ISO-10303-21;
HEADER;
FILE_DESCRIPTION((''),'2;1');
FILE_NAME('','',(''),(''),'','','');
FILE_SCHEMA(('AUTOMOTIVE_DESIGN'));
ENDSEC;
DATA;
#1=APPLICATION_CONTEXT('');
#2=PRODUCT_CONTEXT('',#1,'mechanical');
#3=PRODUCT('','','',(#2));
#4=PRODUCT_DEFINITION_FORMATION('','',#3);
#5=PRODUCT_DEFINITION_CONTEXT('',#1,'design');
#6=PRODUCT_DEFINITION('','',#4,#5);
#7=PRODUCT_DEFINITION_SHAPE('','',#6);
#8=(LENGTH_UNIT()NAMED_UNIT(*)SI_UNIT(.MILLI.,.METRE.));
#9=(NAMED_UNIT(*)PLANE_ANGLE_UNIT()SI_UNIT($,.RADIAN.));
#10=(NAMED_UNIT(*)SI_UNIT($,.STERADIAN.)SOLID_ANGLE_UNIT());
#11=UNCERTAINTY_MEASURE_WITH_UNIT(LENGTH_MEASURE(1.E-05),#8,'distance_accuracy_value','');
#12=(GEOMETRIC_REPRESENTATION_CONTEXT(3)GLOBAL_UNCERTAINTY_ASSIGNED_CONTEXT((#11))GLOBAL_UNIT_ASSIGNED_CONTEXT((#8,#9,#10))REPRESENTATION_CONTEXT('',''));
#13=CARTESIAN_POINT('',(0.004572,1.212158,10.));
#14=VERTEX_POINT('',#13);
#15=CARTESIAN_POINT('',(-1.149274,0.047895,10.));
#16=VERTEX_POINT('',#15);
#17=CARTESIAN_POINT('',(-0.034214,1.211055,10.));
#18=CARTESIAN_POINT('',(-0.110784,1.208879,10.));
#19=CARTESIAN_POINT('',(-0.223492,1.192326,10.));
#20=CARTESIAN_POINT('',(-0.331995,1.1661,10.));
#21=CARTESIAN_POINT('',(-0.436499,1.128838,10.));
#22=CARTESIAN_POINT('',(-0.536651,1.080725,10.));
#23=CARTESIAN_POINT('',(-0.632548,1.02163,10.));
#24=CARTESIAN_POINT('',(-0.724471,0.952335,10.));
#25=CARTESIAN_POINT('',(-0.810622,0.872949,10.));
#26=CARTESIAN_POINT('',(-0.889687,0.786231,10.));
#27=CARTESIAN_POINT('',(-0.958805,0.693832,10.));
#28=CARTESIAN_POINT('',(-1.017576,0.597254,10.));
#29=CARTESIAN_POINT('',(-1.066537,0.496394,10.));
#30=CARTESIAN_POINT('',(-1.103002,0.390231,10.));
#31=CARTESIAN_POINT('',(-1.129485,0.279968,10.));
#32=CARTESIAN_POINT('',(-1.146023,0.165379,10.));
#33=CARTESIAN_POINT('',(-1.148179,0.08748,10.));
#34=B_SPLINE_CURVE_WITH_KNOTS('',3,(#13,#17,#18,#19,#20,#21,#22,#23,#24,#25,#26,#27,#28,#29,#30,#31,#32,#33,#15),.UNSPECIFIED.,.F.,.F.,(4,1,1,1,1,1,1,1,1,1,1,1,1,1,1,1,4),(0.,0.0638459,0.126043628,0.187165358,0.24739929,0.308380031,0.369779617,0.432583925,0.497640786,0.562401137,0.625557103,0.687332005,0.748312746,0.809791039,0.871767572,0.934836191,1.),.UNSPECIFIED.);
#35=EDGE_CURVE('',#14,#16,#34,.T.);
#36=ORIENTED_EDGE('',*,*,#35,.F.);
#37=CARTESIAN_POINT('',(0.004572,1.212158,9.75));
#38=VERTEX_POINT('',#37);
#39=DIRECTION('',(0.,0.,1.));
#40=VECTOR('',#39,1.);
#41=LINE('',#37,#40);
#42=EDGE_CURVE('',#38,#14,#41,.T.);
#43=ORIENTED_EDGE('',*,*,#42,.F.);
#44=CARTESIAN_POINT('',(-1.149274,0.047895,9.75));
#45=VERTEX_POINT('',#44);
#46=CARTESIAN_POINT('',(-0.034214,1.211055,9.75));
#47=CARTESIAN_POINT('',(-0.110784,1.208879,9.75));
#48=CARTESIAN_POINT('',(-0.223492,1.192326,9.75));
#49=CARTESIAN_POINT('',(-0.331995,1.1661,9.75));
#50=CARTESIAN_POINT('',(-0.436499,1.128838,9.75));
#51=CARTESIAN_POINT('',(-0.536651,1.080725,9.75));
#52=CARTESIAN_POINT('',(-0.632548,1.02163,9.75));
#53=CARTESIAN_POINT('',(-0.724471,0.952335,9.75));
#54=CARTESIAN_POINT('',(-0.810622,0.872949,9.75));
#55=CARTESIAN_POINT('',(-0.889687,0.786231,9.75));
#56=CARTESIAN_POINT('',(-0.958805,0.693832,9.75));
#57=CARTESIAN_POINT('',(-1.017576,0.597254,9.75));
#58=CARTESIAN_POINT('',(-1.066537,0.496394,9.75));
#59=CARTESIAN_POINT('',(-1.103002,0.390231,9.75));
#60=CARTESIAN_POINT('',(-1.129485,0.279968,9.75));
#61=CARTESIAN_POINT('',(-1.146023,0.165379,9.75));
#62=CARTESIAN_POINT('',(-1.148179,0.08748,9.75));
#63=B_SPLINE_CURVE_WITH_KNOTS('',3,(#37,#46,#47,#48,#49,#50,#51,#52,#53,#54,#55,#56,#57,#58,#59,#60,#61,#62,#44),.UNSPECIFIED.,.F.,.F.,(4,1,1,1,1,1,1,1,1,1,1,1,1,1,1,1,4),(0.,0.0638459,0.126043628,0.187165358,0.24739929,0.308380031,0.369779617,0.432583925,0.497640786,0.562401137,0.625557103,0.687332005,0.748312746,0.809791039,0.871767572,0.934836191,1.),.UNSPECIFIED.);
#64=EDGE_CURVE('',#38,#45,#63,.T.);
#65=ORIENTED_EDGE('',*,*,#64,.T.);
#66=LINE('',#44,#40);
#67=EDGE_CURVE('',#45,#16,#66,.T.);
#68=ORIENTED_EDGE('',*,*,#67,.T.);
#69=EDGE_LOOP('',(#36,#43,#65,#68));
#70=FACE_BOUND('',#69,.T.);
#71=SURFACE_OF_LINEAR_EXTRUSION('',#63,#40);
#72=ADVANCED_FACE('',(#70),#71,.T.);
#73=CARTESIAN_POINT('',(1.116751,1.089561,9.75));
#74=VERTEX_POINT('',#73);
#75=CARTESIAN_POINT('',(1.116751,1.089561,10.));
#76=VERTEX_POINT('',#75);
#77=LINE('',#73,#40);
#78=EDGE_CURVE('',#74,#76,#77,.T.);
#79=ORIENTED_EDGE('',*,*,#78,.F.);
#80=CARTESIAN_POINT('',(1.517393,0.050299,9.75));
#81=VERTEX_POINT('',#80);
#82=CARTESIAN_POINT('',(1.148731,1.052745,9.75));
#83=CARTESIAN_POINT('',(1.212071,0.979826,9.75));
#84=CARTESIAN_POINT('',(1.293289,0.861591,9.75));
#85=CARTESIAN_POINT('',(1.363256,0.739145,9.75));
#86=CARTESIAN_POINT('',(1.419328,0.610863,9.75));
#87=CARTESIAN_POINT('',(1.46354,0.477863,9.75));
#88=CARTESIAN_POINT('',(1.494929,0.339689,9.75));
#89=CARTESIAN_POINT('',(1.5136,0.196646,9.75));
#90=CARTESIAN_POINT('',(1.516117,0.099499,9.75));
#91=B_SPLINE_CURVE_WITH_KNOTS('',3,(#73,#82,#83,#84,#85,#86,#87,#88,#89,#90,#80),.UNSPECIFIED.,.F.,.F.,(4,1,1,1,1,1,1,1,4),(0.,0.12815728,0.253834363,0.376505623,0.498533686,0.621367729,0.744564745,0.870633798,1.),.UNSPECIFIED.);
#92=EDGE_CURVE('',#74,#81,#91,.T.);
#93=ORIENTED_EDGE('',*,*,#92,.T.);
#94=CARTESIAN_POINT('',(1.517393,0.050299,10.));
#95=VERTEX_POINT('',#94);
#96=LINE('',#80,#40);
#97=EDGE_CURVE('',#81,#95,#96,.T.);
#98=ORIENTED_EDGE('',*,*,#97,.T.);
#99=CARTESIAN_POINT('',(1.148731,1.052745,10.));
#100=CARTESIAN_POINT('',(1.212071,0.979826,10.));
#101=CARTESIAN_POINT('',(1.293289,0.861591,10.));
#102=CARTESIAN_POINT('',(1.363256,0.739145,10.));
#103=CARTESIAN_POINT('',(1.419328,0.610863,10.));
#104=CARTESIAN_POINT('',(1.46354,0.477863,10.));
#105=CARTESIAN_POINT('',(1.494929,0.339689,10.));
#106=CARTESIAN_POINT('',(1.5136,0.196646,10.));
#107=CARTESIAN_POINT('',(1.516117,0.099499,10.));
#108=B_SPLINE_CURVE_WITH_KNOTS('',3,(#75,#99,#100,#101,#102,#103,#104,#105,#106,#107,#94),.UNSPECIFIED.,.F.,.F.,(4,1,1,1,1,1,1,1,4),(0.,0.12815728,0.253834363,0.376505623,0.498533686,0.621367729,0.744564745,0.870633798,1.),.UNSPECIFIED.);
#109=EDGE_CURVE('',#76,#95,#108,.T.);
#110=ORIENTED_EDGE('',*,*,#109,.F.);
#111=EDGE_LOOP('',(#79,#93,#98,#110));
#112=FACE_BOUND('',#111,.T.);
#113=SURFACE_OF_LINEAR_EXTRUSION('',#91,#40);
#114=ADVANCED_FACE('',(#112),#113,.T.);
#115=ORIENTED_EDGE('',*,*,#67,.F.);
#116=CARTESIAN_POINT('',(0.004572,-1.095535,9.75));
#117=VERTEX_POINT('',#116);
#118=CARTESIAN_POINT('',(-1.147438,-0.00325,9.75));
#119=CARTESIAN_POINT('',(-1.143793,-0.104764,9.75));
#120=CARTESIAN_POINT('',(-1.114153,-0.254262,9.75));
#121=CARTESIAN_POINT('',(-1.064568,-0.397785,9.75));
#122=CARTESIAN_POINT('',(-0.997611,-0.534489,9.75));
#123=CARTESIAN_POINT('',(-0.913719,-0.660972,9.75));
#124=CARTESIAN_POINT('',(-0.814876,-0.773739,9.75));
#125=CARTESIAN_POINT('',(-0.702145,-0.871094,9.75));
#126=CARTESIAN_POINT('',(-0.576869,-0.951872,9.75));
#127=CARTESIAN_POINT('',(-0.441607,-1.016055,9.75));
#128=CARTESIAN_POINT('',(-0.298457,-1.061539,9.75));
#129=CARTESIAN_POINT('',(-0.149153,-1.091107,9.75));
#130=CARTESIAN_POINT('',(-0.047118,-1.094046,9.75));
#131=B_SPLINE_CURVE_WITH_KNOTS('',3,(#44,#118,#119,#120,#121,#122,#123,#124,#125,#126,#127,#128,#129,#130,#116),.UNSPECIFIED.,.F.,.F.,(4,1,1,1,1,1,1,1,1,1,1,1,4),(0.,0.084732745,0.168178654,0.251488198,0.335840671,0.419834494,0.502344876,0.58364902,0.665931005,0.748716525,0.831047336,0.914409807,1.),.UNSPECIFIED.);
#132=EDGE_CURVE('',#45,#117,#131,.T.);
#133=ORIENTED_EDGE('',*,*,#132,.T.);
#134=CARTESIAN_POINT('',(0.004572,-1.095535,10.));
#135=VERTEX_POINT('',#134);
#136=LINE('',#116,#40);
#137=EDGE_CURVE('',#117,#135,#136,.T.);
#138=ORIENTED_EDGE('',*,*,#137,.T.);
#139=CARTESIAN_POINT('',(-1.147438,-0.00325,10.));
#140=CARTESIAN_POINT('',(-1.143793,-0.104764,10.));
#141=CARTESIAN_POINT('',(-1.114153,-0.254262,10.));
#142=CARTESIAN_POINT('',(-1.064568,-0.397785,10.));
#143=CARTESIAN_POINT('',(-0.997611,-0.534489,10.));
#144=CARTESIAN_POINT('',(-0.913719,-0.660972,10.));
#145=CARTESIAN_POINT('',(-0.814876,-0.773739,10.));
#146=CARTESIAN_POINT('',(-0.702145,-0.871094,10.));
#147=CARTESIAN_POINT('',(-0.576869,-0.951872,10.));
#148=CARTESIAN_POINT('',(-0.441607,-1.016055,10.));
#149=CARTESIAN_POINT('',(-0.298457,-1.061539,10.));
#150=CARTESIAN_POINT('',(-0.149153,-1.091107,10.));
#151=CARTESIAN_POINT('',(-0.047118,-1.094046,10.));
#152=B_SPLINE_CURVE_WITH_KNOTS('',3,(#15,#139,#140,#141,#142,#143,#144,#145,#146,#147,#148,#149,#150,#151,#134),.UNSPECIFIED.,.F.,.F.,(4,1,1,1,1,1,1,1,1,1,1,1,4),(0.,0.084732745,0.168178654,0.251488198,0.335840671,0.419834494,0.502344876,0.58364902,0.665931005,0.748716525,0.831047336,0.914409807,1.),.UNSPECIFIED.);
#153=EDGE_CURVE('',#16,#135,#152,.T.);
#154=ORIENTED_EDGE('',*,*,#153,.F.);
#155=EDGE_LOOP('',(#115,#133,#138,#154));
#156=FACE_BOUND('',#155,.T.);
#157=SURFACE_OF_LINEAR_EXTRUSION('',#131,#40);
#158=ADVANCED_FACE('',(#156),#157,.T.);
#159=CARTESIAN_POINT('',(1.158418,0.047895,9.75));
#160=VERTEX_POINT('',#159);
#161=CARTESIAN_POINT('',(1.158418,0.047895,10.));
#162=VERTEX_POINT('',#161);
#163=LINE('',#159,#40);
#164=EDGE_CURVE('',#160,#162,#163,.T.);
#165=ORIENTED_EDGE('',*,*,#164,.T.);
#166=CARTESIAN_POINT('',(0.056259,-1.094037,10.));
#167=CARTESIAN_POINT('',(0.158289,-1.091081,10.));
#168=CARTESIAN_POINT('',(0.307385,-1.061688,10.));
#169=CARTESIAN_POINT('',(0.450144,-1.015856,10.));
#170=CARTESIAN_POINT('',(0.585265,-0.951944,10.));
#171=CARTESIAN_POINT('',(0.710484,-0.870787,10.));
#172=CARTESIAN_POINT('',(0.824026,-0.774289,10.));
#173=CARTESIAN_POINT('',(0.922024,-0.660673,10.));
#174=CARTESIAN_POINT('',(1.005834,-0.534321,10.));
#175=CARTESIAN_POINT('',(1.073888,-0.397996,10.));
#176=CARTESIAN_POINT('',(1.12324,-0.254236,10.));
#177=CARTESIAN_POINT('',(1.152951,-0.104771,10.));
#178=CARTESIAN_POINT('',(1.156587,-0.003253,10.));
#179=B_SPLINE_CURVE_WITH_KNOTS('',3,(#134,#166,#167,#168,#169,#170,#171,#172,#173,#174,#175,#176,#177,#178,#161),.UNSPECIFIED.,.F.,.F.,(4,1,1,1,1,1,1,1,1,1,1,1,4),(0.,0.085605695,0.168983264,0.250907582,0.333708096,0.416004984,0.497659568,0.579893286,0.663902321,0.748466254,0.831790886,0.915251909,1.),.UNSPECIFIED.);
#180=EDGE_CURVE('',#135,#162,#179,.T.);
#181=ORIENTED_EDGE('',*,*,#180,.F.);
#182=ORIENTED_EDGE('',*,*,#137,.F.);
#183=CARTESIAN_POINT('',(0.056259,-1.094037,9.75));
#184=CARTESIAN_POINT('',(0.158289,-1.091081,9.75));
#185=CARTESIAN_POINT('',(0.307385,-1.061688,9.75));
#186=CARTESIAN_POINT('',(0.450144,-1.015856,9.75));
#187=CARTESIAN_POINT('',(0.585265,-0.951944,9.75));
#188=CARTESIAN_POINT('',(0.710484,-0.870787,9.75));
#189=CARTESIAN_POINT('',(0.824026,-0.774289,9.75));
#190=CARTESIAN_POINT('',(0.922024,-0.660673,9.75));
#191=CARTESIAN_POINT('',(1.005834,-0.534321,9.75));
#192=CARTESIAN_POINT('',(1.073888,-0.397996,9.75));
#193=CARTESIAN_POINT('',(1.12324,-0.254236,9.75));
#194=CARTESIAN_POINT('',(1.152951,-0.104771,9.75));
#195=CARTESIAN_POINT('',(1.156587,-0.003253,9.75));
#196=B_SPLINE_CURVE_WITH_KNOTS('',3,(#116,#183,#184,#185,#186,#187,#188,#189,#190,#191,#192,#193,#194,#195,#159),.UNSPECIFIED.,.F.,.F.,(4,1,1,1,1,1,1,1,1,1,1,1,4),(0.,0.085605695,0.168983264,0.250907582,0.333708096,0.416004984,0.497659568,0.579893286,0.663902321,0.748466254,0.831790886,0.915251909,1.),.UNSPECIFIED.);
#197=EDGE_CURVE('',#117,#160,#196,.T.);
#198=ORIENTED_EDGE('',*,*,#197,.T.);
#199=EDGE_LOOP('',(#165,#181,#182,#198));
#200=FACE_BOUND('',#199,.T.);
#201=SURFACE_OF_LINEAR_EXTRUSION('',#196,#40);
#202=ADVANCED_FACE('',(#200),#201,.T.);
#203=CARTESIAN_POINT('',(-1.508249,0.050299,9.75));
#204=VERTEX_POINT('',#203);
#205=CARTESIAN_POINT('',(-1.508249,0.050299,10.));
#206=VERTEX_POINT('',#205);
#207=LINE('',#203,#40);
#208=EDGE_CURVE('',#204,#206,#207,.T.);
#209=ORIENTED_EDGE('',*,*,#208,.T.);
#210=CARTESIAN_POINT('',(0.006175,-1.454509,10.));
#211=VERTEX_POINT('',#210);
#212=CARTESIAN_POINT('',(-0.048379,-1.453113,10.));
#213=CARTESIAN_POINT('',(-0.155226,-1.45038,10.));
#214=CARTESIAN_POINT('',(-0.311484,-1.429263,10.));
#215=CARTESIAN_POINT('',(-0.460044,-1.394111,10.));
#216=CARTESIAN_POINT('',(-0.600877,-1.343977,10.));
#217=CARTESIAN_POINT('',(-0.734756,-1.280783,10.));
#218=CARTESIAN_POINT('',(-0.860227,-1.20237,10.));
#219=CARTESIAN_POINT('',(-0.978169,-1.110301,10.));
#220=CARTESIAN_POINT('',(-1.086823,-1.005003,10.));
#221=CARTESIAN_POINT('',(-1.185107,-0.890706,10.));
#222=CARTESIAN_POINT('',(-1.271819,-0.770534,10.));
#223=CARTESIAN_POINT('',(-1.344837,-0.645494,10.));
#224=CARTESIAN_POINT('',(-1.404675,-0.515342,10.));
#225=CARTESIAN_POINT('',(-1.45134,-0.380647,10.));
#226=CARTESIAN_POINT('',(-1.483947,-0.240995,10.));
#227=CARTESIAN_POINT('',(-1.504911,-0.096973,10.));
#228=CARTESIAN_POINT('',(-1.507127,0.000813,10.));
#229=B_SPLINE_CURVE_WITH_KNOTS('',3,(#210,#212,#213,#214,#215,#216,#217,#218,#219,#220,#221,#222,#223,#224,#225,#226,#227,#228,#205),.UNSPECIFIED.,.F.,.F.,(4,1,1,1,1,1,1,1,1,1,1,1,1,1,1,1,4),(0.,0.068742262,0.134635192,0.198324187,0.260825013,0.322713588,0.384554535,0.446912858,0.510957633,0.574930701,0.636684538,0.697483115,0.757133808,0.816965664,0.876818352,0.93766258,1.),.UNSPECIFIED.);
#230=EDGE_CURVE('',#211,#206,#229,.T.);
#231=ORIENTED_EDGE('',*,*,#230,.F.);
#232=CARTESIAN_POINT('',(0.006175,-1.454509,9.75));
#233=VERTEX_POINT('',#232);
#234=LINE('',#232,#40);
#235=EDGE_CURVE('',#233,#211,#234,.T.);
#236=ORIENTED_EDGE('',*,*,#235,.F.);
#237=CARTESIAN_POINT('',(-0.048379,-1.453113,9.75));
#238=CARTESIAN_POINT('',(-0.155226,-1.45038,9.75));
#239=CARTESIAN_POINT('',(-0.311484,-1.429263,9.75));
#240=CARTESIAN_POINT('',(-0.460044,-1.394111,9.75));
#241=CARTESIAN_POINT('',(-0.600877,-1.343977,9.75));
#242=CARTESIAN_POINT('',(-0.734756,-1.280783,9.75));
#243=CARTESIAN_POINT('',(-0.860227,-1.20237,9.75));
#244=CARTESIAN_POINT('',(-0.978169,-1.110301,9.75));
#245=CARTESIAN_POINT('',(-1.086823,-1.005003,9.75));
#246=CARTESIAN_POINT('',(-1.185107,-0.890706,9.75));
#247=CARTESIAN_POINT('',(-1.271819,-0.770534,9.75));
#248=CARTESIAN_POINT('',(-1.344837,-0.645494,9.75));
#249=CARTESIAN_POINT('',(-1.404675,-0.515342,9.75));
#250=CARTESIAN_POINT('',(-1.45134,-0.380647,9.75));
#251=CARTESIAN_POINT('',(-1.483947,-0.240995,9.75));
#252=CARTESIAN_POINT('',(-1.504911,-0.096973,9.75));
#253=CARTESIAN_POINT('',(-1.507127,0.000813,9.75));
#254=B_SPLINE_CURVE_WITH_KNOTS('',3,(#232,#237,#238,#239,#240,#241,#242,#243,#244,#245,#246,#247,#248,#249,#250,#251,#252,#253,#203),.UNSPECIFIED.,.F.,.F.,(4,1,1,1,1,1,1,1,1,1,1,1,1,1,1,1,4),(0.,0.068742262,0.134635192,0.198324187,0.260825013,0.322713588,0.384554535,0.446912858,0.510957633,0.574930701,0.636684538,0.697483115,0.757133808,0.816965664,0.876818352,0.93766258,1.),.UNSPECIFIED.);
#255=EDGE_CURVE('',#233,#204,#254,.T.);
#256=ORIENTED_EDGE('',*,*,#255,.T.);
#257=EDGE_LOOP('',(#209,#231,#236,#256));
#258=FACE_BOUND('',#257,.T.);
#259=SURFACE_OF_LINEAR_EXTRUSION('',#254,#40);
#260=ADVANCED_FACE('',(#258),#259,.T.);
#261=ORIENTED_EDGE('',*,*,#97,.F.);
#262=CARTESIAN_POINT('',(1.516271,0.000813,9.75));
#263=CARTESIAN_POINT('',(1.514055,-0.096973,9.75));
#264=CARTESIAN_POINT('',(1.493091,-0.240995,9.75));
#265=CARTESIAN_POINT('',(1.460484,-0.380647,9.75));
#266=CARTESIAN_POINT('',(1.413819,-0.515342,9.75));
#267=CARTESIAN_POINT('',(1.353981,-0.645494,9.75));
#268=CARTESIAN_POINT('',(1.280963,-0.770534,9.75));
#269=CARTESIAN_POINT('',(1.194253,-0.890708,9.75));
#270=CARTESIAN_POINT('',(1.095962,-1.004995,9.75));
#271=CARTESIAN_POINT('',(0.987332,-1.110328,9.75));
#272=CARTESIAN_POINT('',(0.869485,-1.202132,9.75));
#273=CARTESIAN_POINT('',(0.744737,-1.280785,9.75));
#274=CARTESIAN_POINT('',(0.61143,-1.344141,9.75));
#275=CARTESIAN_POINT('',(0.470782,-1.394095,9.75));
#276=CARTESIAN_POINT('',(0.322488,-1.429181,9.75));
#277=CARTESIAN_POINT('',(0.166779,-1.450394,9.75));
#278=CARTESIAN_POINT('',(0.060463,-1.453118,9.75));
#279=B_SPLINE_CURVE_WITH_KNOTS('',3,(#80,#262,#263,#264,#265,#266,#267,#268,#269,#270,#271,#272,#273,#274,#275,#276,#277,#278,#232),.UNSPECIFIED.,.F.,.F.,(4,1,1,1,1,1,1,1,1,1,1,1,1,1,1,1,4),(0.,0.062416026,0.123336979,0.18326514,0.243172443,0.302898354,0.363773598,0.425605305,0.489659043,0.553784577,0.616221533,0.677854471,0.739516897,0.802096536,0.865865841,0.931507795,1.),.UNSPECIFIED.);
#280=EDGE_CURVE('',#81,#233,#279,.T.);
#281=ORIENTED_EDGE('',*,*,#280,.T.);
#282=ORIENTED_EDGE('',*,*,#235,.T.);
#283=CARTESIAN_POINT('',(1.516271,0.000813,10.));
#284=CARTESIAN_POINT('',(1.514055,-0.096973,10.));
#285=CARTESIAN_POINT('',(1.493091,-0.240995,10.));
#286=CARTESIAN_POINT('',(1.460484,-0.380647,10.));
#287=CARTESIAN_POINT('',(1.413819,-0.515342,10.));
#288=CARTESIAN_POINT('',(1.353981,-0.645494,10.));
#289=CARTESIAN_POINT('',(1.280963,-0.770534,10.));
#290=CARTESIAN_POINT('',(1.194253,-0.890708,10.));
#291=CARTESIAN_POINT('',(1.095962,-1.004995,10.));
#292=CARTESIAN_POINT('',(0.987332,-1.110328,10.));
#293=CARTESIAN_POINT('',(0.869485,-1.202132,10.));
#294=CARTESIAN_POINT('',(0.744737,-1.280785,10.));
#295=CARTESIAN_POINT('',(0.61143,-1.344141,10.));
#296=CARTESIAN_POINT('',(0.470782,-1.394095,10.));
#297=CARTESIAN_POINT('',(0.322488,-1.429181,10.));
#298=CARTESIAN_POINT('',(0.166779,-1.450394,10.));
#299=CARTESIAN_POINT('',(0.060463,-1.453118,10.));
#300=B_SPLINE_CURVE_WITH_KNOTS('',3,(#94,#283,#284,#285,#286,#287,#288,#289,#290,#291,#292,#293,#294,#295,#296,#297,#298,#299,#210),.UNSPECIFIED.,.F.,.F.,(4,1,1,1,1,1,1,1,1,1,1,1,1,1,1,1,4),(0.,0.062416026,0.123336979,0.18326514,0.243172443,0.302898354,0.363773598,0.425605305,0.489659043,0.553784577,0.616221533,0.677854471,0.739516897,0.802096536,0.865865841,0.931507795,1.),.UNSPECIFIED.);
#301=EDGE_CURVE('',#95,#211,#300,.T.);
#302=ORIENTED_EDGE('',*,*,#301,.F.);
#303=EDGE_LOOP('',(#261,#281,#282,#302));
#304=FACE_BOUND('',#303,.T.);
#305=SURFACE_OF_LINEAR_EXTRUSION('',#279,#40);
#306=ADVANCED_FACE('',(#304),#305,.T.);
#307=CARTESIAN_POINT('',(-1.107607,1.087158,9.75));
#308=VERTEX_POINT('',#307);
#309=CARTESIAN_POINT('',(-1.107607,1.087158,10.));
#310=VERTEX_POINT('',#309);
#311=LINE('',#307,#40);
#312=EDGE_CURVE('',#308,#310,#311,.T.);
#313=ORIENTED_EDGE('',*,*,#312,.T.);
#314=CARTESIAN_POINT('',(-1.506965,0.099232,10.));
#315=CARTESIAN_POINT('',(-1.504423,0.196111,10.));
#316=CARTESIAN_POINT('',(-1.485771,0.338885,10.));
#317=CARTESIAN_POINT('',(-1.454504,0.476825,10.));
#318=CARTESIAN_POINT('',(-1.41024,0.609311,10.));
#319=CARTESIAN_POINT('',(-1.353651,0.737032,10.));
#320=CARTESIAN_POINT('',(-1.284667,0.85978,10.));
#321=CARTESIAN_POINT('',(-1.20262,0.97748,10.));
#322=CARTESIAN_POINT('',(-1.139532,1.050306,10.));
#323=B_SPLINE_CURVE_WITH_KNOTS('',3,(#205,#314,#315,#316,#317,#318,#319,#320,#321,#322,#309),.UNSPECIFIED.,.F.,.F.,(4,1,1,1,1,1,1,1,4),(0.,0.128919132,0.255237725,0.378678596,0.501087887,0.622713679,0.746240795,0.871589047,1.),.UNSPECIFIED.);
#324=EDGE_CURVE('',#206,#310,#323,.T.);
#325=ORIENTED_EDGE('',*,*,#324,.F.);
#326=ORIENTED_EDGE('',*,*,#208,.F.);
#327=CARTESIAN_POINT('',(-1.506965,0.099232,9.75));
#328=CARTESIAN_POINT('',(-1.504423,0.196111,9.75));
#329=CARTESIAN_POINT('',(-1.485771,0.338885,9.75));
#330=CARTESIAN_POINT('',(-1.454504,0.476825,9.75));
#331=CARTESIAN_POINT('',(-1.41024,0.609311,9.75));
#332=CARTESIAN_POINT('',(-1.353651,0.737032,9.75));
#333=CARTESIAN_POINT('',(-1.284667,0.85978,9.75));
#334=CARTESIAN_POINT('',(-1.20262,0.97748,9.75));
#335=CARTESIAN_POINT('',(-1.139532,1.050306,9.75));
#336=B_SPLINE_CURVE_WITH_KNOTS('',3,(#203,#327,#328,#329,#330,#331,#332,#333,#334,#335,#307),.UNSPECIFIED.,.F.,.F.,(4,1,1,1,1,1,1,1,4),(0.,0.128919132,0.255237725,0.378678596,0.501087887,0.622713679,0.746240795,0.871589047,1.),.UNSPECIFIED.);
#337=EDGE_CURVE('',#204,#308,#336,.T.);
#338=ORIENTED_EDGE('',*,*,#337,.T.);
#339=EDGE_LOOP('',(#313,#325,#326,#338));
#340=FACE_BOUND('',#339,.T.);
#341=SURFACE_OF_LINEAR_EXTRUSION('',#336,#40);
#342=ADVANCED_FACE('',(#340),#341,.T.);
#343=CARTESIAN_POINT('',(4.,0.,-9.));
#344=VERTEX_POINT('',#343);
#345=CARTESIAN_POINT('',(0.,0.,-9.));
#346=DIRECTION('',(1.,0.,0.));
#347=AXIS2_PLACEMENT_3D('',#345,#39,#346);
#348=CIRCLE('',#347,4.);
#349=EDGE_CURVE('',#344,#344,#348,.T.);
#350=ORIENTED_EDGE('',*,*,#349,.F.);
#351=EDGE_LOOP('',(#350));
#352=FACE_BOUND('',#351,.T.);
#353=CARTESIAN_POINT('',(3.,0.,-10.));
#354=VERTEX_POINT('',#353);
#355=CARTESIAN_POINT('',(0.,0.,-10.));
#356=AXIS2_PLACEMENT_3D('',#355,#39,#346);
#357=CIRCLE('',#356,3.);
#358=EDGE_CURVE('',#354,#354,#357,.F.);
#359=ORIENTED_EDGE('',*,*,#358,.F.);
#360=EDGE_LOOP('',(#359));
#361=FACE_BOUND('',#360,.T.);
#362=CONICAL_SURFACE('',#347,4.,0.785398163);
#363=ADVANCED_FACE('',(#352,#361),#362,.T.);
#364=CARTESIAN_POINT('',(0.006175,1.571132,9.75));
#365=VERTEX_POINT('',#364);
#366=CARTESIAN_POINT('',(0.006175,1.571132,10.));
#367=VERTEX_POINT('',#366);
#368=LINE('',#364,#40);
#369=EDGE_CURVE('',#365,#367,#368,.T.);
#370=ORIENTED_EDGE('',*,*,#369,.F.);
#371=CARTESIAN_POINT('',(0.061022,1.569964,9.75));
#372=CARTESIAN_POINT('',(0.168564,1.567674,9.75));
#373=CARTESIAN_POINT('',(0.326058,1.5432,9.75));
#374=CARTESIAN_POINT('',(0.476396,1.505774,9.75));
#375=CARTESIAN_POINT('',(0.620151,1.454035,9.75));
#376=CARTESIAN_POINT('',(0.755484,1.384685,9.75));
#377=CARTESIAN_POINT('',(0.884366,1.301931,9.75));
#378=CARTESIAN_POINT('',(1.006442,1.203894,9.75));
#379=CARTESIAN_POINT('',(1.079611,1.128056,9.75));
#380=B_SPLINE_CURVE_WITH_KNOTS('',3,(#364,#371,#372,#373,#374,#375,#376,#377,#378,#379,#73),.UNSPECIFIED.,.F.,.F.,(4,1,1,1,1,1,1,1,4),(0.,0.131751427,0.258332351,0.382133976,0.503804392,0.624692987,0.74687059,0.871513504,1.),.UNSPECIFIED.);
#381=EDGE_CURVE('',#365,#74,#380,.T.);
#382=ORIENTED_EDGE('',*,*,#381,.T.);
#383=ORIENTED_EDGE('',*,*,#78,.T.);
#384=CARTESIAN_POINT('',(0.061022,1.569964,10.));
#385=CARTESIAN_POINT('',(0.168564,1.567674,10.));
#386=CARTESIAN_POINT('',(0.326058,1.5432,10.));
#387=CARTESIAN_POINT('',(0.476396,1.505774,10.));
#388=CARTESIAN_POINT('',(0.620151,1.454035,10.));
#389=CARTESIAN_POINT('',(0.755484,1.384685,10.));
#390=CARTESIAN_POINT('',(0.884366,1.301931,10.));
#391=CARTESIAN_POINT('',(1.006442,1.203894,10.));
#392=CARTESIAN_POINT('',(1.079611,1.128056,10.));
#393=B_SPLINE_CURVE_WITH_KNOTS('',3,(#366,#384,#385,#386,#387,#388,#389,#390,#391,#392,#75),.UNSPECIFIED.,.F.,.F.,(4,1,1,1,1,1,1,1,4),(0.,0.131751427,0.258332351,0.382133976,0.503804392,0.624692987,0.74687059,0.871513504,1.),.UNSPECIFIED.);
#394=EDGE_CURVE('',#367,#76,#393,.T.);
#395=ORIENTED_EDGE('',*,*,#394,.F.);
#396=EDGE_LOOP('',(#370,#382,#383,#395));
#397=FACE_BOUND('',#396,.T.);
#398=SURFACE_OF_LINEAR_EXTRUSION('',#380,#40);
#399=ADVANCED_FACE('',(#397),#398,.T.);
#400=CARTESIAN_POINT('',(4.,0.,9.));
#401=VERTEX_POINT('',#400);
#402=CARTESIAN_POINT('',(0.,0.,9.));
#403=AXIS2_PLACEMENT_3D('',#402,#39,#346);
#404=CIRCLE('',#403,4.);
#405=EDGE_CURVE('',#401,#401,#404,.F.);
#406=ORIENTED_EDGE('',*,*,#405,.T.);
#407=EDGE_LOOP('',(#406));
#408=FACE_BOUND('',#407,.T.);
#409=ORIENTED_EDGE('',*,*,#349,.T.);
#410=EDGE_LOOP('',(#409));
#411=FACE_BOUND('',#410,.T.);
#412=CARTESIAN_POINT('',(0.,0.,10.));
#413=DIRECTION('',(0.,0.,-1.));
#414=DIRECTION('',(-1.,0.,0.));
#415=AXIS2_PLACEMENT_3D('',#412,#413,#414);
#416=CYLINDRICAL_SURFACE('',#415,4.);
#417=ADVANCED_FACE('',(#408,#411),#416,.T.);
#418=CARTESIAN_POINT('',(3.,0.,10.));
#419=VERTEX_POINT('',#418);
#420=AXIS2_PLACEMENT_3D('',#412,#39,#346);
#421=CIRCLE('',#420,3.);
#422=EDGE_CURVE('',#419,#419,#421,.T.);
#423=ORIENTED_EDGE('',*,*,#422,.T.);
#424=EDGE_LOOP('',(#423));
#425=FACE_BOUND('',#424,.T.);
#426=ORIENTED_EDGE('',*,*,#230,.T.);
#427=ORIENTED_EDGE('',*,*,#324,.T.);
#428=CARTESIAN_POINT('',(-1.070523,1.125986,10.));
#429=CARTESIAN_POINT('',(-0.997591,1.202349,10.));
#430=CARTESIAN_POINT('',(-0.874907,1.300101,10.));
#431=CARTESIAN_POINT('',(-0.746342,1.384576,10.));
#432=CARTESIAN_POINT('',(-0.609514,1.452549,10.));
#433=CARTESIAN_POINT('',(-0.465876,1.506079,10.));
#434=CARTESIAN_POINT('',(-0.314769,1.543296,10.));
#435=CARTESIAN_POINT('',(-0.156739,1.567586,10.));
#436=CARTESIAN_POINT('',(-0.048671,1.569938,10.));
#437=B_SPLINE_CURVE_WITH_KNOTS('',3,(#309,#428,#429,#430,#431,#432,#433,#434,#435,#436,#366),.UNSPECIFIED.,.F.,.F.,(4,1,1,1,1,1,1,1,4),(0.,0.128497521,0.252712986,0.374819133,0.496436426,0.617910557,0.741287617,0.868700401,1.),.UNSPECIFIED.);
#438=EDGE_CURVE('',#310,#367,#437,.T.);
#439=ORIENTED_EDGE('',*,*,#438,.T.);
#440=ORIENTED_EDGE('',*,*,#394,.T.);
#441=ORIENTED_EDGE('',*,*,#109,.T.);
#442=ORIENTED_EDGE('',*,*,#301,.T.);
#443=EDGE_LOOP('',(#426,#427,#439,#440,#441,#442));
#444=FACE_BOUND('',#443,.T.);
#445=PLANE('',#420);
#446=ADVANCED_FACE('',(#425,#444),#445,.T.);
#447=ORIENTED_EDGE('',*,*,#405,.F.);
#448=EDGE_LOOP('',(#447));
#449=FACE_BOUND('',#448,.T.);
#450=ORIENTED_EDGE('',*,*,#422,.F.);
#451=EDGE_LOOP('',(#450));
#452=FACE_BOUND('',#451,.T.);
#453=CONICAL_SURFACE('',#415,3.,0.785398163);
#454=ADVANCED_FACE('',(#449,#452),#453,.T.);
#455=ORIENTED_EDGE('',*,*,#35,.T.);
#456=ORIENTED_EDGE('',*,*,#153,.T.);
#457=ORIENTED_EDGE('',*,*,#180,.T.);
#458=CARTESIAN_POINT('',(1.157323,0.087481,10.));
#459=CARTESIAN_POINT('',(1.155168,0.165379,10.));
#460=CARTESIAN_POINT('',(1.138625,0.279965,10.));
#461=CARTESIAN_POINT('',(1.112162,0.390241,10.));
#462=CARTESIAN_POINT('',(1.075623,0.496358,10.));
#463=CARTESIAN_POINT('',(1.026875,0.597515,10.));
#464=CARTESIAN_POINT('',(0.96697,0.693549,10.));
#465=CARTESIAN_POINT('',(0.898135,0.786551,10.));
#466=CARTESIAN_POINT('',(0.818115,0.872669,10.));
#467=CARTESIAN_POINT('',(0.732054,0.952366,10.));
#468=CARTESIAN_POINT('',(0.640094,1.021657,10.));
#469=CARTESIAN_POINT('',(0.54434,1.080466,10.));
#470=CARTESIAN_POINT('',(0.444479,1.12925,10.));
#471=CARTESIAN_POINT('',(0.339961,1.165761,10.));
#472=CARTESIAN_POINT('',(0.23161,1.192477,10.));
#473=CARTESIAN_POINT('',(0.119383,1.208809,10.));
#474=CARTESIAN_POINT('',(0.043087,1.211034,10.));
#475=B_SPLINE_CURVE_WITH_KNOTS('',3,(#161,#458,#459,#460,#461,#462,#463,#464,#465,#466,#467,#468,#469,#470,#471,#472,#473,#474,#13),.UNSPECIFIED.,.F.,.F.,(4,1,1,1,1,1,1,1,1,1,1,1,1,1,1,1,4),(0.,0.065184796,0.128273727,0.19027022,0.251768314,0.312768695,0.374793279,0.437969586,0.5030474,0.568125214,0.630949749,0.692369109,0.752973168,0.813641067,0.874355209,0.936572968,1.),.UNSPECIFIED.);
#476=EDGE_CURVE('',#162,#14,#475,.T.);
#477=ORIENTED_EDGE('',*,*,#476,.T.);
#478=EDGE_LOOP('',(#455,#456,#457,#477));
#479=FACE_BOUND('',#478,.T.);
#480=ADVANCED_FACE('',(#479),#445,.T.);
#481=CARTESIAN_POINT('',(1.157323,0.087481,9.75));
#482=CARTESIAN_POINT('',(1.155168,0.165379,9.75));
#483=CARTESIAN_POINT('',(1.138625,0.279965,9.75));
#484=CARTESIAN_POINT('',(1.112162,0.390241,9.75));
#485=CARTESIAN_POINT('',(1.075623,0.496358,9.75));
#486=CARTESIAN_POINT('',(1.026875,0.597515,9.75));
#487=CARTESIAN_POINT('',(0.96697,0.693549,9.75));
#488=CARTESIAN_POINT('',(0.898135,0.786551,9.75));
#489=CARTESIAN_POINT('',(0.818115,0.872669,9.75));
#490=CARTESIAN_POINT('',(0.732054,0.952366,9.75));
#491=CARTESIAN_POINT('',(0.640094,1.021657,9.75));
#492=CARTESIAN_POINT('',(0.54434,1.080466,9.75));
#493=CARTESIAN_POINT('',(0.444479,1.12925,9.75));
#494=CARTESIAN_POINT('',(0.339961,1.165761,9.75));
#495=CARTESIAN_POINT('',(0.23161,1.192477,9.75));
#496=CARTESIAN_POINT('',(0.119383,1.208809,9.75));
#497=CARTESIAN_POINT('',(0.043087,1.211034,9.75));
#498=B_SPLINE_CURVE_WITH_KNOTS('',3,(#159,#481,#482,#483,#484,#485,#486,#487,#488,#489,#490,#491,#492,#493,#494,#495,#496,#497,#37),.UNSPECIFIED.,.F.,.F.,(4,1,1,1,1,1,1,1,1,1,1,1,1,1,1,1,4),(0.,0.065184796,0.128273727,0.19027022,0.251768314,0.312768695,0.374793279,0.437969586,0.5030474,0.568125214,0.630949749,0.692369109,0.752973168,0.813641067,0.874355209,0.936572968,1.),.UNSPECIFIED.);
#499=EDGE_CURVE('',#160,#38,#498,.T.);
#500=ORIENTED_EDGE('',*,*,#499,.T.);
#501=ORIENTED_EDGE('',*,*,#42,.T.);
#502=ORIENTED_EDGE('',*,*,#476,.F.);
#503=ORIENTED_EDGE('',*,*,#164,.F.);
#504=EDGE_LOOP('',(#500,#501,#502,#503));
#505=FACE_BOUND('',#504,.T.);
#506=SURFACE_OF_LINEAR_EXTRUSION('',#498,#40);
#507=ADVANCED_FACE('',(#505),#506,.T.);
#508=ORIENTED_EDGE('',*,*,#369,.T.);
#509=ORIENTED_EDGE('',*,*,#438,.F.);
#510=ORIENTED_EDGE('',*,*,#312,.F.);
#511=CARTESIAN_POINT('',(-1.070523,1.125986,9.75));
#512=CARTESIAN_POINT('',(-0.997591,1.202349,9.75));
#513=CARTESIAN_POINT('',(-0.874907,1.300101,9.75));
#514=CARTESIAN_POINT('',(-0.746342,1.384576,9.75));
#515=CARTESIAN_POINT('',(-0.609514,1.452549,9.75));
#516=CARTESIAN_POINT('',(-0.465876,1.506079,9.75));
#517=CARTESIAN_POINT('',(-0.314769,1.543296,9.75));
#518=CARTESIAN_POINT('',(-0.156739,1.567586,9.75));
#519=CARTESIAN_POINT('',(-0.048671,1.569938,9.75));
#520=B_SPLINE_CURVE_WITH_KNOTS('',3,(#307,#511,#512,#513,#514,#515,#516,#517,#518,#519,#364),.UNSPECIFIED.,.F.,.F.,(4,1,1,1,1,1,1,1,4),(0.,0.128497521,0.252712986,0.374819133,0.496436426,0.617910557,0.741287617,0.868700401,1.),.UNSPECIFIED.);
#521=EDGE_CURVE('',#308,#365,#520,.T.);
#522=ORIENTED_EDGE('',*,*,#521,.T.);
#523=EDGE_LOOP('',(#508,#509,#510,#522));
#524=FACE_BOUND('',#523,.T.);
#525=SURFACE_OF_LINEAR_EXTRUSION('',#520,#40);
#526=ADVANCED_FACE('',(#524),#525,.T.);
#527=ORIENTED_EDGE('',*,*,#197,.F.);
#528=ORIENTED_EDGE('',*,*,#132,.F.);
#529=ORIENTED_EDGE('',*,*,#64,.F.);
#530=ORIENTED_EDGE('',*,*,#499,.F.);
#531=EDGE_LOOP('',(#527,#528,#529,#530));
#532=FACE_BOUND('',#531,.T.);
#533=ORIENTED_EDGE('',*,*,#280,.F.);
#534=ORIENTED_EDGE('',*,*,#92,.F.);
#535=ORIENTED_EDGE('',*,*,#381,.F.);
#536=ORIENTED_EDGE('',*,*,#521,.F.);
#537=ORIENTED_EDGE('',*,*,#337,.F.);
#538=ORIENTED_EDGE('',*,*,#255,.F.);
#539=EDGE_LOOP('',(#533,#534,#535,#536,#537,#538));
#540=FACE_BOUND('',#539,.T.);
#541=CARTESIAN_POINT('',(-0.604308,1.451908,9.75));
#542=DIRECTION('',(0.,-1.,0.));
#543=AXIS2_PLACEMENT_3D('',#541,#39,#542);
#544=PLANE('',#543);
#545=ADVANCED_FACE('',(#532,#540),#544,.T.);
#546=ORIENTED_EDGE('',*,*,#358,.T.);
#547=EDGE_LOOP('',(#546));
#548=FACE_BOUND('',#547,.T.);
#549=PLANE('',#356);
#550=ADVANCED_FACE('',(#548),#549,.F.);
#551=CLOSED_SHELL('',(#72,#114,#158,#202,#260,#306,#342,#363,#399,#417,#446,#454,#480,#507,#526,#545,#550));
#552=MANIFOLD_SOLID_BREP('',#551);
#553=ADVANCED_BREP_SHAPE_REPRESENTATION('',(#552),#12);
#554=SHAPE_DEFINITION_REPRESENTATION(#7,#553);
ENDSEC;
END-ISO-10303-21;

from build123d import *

# Parameters (mm, degrees)
SKETCH1_R           = 4
BOSS_EXTRUDE1_DEPTH = 10
CHAMFER1_SIZE       = 1
CUT_EXTRUDE2_DEPTH  = 0.25


with BuildPart() as part:
    # Sketch1 → Boss-Extrude1 (new, symmetric)
    with BuildSketch(Plane(origin=(0, 0, 0), x_dir=(0, 1, 0), z_dir=(0, 0, 1))):
        with Locations(Location((0, 0, 0), (0, 0, 270))):
            Circle(SKETCH1_R)
    extrude(amount=BOSS_EXTRUDE1_DEPTH, both=True)

    # Chamfer1
    chamfer1_edges = [part.edges().sort_by_distance(p)[0] for p in [
        (-4, 0, -10),
        (-4, 0, 10),
    ]]
    chamfer(chamfer1_edges, length=CHAMFER1_SIZE)

    # Sketch4 → Cut-Extrude2 (cut)
    with BuildSketch(Plane.XY.offset(10)):
        with BuildLine():
            add(Edge.make_bspline(
                [(0.00617457, 1.571131981), (0.061021739, 1.569964106), (0.168563633, 1.567674187), (0.32605836, 1.543199941), (0.476395658, 1.505774381), (0.620151307, 1.454035453), (0.755484216, 1.384684653), (0.884365637, 1.301931177), (1.006442219, 1.203893927), (1.079611395, 1.128056135), (1.116751493, 1.089561468)],
                knots=[0, 0, 0, 0, 1.054011418, 2.066658804, 3.057071809, 4.030435133, 4.997543892, 5.974964718, 6.972108034, 8, 8, 8, 8], degree=3))
            add(Edge.make_bspline(
                [(1.116751493, 1.089561468), (1.148730869, 1.052745485), (1.212070732, 0.979826008), (1.293288697, 0.861591022), (1.363256194, 0.739145192), (1.419328149, 0.610862533), (1.463539605, 0.477862909), (1.494928972, 0.339689182), (1.513599755, 0.1966465), (1.516117432, 0.099499256), (1.517392519, 0.050298648)],
                knots=[0, 0, 0, 0, 1.025258237, 2.030674902, 3.01204498, 3.988269485, 4.97094183, 5.956517959, 6.965070386, 8, 8, 8, 8], degree=3))
            add(Edge.make_bspline(
                [(1.517392519, 0.050298648), (1.51627099, 0.000812868), (1.514054798, -0.096973342), (1.493090665, -0.240995474), (1.46048371, -0.3806467), (1.413818752, -0.51534235), (1.353980913, -0.645494153), (1.280962984, -0.770533638), (1.194252564, -0.890707504), (1.095962282, -1.004995319), (0.987331567, -1.110328136), (0.86948454, -1.202131873), (0.744737073, -1.280785044), (0.611430384, -1.344140947), (0.470781827, -1.39409489), (0.322488035, -1.429180623), (0.166779383, -1.450393976), (0.060462559, -1.45311806), (0.00617457, -1.454509044)],
                knots=[0, 0, 0, 0, 0.998656419, 1.973391657, 2.932242238, 3.890759089, 4.846373663, 5.82037756, 6.809684879, 7.83454468, 8.860553229, 9.859544525, 10.845671541, 11.83227036, 12.833544569, 13.85385346, 14.904124723, 16, 16, 16, 16], degree=3))
            add(Edge.make_bspline(
                [(0.00617457, -1.454509044), (-0.048379395, -1.453113392), (-0.155226092, -1.450379935), (-0.311484357, -1.42926304), (-0.460043921, -1.39411106), (-0.600876605, -1.343976783), (-0.734756431, -1.280783019), (-0.860226713, -1.202369659), (-0.978169473, -1.11030091), (-1.08682317, -1.005002697), (-1.18510729, -0.890705604), (-1.2718193, -0.770534131), (-1.344836815, -0.645494024), (-1.404674763, -0.515342384), (-1.451339692, -0.380646691), (-1.483946655, -0.240995477), (-1.504910786, -0.096973341), (-1.507126978, 0.000812868), (-1.508248507, 0.050298648)],
                knots=[0, 0, 0, 0, 1.099876186, 2.154163076, 3.173186993, 4.173200201, 5.163417411, 6.152872554, 7.150605724, 8.17532212, 9.198891216, 10.186952605, 11.159729845, 12.11414092, 13.071450619, 14.029093627, 15.002601286, 16, 16, 16, 16], degree=3))
            add(Edge.make_bspline(
                [(-1.508248507, 0.050298648), (-1.506964724, 0.099231843), (-1.504423053, 0.19611116), (-1.485771043, 0.338884944), (-1.454504121, 0.476824817), (-1.410239668, 0.609311075), (-1.353650879, 0.737031574), (-1.28466655, 0.859779952), (-1.202620112, 0.977480295), (-1.139532168, 1.05030553), (-1.107607481, 1.087157622)],
                knots=[0, 0, 0, 0, 1.031353054, 2.041901799, 3.029428768, 4.008703097, 4.981709435, 5.96992636, 6.972712378, 8, 8, 8, 8], degree=3))
            add(Edge.make_bspline(
                [(-1.107607481, 1.087157622), (-1.070523377, 1.125986124), (-0.997590961, 1.202349206), (-0.874906701, 1.300100662), (-0.746342334, 1.384576175), (-0.609513847, 1.452548992), (-0.465876295, 1.506078727), (-0.314768589, 1.543296459), (-0.156739429, 1.567586007), (-0.04867129, 1.56993821), (0.00617457, 1.571131981)],
                knots=[0, 0, 0, 0, 1.027980169, 2.021703884, 2.998553061, 3.971491411, 4.943284454, 5.930300938, 6.949603206, 8, 8, 8, 8], degree=3))
        make_face()
        with BuildLine():
            add(Edge.make_bspline(
                [(0.004572006, 1.212157622), (-0.034213836, 1.211055232), (-0.110784268, 1.208878909), (-0.223492365, 1.192325875), (-0.331995398, 1.166100156), (-0.43649922, 1.128838377), (-0.536651417, 1.08072535), (-0.632547877, 1.021630081), (-0.724470665, 0.952335274), (-0.810621595, 0.872949363), (-0.889687095, 0.786230513), (-0.958804782, 0.693832388), (-1.017576332, 0.597253707), (-1.066536514, 0.496394037), (-1.103001872, 0.390231278), (-1.129485326, 0.2799677), (-1.146022744, 0.165378652), (-1.148178605, 0.087480345), (-1.149274148, 0.047894802)],
                knots=[0, 0, 0, 0, 1.021534396, 2.016698045, 2.994645724, 3.958388632, 4.93408049, 5.916473867, 6.921342795, 7.962252576, 8.998418191, 10.008913653, 10.997312074, 11.973003931, 12.956656626, 13.948281152, 14.957379055, 16, 16, 16, 16], degree=3))
            add(Edge.make_bspline(
                [(-1.149274148, 0.047894802), (-1.147437778, -0.003250372), (-1.143792927, -0.104763978), (-1.114152657, -0.254262404), (-1.064568337, -0.397784521), (-0.997611446, -0.534488962), (-0.913718625, -0.660971566), (-0.814876263, -0.773738976), (-0.702145177, -0.871094189), (-0.576869176, -0.951872299), (-0.441607099, -1.016054877), (-0.298457018, -1.06153942), (-0.149153367, -1.091107069), (-0.047118246, -1.094045897), (0.004572006, -1.095534685)],
                knots=[0, 0, 0, 0, 1.016792936, 2.018143844, 3.017858371, 4.030088057, 5.03801393, 6.028138512, 7.003788237, 7.991172063, 8.984598303, 9.972568034, 10.972917682, 12, 12, 12, 12], degree=3))
            add(Edge.make_bspline(
                [(0.004572006, -1.095534685), (0.056259285, -1.094037222), (0.158288537, -1.091081272), (0.307384739, -1.061688335), (0.450143564, -1.01585558), (0.58526515, -0.951944483), (0.710484125, -0.870787437), (0.824025978, -0.77428872), (0.922024391, -0.66067289), (1.005834225, -0.534321429), (1.073887646, -0.397996455), (1.123239876, -0.254235915), (1.152951403, -0.104770724), (1.156586636, -0.003252632), (1.15841816, 0.047894802)],
                knots=[0, 0, 0, 0, 1.02726834, 2.027799167, 3.010890988, 4.004497153, 4.992059811, 5.971914811, 6.958719428, 7.966827853, 8.981595046, 9.981490638, 10.983022906, 12, 12, 12, 12], degree=3))
            add(Edge.make_bspline(
                [(1.15841816, 0.047894802), (1.157322994, 0.087480582), (1.155167875, 0.165379354), (1.138625059, 0.279965015), (1.112161585, 0.390241126), (1.075622594, 0.496357701), (1.026875149, 0.597514849), (0.966970243, 0.693548823), (0.898134785, 0.78655059), (0.818115218, 0.872669036), (0.732054215, 0.952366221), (0.640094172, 1.021656952), (0.54433991, 1.080465632), (0.444478673, 1.129249907), (0.339961453, 1.165761153), (0.231610448, 1.192477303), (0.119383237, 1.208808957), (0.043087187, 1.211034261), (0.004572006, 1.212157622)],
                knots=[0, 0, 0, 0, 1.042956736, 2.052379634, 3.044323526, 4.02829302, 5.004299113, 5.996692471, 7.007513377, 8.048758398, 9.090003419, 10.095195979, 11.07790575, 12.047570684, 13.018257071, 13.989683339, 14.985167495, 16, 16, 16, 16], degree=3))
        make_face(mode=Mode.SUBTRACT)
    extrude(amount=-CUT_EXTRUDE2_DEPTH, mode=Mode.SUBTRACT)


solid = part.part
